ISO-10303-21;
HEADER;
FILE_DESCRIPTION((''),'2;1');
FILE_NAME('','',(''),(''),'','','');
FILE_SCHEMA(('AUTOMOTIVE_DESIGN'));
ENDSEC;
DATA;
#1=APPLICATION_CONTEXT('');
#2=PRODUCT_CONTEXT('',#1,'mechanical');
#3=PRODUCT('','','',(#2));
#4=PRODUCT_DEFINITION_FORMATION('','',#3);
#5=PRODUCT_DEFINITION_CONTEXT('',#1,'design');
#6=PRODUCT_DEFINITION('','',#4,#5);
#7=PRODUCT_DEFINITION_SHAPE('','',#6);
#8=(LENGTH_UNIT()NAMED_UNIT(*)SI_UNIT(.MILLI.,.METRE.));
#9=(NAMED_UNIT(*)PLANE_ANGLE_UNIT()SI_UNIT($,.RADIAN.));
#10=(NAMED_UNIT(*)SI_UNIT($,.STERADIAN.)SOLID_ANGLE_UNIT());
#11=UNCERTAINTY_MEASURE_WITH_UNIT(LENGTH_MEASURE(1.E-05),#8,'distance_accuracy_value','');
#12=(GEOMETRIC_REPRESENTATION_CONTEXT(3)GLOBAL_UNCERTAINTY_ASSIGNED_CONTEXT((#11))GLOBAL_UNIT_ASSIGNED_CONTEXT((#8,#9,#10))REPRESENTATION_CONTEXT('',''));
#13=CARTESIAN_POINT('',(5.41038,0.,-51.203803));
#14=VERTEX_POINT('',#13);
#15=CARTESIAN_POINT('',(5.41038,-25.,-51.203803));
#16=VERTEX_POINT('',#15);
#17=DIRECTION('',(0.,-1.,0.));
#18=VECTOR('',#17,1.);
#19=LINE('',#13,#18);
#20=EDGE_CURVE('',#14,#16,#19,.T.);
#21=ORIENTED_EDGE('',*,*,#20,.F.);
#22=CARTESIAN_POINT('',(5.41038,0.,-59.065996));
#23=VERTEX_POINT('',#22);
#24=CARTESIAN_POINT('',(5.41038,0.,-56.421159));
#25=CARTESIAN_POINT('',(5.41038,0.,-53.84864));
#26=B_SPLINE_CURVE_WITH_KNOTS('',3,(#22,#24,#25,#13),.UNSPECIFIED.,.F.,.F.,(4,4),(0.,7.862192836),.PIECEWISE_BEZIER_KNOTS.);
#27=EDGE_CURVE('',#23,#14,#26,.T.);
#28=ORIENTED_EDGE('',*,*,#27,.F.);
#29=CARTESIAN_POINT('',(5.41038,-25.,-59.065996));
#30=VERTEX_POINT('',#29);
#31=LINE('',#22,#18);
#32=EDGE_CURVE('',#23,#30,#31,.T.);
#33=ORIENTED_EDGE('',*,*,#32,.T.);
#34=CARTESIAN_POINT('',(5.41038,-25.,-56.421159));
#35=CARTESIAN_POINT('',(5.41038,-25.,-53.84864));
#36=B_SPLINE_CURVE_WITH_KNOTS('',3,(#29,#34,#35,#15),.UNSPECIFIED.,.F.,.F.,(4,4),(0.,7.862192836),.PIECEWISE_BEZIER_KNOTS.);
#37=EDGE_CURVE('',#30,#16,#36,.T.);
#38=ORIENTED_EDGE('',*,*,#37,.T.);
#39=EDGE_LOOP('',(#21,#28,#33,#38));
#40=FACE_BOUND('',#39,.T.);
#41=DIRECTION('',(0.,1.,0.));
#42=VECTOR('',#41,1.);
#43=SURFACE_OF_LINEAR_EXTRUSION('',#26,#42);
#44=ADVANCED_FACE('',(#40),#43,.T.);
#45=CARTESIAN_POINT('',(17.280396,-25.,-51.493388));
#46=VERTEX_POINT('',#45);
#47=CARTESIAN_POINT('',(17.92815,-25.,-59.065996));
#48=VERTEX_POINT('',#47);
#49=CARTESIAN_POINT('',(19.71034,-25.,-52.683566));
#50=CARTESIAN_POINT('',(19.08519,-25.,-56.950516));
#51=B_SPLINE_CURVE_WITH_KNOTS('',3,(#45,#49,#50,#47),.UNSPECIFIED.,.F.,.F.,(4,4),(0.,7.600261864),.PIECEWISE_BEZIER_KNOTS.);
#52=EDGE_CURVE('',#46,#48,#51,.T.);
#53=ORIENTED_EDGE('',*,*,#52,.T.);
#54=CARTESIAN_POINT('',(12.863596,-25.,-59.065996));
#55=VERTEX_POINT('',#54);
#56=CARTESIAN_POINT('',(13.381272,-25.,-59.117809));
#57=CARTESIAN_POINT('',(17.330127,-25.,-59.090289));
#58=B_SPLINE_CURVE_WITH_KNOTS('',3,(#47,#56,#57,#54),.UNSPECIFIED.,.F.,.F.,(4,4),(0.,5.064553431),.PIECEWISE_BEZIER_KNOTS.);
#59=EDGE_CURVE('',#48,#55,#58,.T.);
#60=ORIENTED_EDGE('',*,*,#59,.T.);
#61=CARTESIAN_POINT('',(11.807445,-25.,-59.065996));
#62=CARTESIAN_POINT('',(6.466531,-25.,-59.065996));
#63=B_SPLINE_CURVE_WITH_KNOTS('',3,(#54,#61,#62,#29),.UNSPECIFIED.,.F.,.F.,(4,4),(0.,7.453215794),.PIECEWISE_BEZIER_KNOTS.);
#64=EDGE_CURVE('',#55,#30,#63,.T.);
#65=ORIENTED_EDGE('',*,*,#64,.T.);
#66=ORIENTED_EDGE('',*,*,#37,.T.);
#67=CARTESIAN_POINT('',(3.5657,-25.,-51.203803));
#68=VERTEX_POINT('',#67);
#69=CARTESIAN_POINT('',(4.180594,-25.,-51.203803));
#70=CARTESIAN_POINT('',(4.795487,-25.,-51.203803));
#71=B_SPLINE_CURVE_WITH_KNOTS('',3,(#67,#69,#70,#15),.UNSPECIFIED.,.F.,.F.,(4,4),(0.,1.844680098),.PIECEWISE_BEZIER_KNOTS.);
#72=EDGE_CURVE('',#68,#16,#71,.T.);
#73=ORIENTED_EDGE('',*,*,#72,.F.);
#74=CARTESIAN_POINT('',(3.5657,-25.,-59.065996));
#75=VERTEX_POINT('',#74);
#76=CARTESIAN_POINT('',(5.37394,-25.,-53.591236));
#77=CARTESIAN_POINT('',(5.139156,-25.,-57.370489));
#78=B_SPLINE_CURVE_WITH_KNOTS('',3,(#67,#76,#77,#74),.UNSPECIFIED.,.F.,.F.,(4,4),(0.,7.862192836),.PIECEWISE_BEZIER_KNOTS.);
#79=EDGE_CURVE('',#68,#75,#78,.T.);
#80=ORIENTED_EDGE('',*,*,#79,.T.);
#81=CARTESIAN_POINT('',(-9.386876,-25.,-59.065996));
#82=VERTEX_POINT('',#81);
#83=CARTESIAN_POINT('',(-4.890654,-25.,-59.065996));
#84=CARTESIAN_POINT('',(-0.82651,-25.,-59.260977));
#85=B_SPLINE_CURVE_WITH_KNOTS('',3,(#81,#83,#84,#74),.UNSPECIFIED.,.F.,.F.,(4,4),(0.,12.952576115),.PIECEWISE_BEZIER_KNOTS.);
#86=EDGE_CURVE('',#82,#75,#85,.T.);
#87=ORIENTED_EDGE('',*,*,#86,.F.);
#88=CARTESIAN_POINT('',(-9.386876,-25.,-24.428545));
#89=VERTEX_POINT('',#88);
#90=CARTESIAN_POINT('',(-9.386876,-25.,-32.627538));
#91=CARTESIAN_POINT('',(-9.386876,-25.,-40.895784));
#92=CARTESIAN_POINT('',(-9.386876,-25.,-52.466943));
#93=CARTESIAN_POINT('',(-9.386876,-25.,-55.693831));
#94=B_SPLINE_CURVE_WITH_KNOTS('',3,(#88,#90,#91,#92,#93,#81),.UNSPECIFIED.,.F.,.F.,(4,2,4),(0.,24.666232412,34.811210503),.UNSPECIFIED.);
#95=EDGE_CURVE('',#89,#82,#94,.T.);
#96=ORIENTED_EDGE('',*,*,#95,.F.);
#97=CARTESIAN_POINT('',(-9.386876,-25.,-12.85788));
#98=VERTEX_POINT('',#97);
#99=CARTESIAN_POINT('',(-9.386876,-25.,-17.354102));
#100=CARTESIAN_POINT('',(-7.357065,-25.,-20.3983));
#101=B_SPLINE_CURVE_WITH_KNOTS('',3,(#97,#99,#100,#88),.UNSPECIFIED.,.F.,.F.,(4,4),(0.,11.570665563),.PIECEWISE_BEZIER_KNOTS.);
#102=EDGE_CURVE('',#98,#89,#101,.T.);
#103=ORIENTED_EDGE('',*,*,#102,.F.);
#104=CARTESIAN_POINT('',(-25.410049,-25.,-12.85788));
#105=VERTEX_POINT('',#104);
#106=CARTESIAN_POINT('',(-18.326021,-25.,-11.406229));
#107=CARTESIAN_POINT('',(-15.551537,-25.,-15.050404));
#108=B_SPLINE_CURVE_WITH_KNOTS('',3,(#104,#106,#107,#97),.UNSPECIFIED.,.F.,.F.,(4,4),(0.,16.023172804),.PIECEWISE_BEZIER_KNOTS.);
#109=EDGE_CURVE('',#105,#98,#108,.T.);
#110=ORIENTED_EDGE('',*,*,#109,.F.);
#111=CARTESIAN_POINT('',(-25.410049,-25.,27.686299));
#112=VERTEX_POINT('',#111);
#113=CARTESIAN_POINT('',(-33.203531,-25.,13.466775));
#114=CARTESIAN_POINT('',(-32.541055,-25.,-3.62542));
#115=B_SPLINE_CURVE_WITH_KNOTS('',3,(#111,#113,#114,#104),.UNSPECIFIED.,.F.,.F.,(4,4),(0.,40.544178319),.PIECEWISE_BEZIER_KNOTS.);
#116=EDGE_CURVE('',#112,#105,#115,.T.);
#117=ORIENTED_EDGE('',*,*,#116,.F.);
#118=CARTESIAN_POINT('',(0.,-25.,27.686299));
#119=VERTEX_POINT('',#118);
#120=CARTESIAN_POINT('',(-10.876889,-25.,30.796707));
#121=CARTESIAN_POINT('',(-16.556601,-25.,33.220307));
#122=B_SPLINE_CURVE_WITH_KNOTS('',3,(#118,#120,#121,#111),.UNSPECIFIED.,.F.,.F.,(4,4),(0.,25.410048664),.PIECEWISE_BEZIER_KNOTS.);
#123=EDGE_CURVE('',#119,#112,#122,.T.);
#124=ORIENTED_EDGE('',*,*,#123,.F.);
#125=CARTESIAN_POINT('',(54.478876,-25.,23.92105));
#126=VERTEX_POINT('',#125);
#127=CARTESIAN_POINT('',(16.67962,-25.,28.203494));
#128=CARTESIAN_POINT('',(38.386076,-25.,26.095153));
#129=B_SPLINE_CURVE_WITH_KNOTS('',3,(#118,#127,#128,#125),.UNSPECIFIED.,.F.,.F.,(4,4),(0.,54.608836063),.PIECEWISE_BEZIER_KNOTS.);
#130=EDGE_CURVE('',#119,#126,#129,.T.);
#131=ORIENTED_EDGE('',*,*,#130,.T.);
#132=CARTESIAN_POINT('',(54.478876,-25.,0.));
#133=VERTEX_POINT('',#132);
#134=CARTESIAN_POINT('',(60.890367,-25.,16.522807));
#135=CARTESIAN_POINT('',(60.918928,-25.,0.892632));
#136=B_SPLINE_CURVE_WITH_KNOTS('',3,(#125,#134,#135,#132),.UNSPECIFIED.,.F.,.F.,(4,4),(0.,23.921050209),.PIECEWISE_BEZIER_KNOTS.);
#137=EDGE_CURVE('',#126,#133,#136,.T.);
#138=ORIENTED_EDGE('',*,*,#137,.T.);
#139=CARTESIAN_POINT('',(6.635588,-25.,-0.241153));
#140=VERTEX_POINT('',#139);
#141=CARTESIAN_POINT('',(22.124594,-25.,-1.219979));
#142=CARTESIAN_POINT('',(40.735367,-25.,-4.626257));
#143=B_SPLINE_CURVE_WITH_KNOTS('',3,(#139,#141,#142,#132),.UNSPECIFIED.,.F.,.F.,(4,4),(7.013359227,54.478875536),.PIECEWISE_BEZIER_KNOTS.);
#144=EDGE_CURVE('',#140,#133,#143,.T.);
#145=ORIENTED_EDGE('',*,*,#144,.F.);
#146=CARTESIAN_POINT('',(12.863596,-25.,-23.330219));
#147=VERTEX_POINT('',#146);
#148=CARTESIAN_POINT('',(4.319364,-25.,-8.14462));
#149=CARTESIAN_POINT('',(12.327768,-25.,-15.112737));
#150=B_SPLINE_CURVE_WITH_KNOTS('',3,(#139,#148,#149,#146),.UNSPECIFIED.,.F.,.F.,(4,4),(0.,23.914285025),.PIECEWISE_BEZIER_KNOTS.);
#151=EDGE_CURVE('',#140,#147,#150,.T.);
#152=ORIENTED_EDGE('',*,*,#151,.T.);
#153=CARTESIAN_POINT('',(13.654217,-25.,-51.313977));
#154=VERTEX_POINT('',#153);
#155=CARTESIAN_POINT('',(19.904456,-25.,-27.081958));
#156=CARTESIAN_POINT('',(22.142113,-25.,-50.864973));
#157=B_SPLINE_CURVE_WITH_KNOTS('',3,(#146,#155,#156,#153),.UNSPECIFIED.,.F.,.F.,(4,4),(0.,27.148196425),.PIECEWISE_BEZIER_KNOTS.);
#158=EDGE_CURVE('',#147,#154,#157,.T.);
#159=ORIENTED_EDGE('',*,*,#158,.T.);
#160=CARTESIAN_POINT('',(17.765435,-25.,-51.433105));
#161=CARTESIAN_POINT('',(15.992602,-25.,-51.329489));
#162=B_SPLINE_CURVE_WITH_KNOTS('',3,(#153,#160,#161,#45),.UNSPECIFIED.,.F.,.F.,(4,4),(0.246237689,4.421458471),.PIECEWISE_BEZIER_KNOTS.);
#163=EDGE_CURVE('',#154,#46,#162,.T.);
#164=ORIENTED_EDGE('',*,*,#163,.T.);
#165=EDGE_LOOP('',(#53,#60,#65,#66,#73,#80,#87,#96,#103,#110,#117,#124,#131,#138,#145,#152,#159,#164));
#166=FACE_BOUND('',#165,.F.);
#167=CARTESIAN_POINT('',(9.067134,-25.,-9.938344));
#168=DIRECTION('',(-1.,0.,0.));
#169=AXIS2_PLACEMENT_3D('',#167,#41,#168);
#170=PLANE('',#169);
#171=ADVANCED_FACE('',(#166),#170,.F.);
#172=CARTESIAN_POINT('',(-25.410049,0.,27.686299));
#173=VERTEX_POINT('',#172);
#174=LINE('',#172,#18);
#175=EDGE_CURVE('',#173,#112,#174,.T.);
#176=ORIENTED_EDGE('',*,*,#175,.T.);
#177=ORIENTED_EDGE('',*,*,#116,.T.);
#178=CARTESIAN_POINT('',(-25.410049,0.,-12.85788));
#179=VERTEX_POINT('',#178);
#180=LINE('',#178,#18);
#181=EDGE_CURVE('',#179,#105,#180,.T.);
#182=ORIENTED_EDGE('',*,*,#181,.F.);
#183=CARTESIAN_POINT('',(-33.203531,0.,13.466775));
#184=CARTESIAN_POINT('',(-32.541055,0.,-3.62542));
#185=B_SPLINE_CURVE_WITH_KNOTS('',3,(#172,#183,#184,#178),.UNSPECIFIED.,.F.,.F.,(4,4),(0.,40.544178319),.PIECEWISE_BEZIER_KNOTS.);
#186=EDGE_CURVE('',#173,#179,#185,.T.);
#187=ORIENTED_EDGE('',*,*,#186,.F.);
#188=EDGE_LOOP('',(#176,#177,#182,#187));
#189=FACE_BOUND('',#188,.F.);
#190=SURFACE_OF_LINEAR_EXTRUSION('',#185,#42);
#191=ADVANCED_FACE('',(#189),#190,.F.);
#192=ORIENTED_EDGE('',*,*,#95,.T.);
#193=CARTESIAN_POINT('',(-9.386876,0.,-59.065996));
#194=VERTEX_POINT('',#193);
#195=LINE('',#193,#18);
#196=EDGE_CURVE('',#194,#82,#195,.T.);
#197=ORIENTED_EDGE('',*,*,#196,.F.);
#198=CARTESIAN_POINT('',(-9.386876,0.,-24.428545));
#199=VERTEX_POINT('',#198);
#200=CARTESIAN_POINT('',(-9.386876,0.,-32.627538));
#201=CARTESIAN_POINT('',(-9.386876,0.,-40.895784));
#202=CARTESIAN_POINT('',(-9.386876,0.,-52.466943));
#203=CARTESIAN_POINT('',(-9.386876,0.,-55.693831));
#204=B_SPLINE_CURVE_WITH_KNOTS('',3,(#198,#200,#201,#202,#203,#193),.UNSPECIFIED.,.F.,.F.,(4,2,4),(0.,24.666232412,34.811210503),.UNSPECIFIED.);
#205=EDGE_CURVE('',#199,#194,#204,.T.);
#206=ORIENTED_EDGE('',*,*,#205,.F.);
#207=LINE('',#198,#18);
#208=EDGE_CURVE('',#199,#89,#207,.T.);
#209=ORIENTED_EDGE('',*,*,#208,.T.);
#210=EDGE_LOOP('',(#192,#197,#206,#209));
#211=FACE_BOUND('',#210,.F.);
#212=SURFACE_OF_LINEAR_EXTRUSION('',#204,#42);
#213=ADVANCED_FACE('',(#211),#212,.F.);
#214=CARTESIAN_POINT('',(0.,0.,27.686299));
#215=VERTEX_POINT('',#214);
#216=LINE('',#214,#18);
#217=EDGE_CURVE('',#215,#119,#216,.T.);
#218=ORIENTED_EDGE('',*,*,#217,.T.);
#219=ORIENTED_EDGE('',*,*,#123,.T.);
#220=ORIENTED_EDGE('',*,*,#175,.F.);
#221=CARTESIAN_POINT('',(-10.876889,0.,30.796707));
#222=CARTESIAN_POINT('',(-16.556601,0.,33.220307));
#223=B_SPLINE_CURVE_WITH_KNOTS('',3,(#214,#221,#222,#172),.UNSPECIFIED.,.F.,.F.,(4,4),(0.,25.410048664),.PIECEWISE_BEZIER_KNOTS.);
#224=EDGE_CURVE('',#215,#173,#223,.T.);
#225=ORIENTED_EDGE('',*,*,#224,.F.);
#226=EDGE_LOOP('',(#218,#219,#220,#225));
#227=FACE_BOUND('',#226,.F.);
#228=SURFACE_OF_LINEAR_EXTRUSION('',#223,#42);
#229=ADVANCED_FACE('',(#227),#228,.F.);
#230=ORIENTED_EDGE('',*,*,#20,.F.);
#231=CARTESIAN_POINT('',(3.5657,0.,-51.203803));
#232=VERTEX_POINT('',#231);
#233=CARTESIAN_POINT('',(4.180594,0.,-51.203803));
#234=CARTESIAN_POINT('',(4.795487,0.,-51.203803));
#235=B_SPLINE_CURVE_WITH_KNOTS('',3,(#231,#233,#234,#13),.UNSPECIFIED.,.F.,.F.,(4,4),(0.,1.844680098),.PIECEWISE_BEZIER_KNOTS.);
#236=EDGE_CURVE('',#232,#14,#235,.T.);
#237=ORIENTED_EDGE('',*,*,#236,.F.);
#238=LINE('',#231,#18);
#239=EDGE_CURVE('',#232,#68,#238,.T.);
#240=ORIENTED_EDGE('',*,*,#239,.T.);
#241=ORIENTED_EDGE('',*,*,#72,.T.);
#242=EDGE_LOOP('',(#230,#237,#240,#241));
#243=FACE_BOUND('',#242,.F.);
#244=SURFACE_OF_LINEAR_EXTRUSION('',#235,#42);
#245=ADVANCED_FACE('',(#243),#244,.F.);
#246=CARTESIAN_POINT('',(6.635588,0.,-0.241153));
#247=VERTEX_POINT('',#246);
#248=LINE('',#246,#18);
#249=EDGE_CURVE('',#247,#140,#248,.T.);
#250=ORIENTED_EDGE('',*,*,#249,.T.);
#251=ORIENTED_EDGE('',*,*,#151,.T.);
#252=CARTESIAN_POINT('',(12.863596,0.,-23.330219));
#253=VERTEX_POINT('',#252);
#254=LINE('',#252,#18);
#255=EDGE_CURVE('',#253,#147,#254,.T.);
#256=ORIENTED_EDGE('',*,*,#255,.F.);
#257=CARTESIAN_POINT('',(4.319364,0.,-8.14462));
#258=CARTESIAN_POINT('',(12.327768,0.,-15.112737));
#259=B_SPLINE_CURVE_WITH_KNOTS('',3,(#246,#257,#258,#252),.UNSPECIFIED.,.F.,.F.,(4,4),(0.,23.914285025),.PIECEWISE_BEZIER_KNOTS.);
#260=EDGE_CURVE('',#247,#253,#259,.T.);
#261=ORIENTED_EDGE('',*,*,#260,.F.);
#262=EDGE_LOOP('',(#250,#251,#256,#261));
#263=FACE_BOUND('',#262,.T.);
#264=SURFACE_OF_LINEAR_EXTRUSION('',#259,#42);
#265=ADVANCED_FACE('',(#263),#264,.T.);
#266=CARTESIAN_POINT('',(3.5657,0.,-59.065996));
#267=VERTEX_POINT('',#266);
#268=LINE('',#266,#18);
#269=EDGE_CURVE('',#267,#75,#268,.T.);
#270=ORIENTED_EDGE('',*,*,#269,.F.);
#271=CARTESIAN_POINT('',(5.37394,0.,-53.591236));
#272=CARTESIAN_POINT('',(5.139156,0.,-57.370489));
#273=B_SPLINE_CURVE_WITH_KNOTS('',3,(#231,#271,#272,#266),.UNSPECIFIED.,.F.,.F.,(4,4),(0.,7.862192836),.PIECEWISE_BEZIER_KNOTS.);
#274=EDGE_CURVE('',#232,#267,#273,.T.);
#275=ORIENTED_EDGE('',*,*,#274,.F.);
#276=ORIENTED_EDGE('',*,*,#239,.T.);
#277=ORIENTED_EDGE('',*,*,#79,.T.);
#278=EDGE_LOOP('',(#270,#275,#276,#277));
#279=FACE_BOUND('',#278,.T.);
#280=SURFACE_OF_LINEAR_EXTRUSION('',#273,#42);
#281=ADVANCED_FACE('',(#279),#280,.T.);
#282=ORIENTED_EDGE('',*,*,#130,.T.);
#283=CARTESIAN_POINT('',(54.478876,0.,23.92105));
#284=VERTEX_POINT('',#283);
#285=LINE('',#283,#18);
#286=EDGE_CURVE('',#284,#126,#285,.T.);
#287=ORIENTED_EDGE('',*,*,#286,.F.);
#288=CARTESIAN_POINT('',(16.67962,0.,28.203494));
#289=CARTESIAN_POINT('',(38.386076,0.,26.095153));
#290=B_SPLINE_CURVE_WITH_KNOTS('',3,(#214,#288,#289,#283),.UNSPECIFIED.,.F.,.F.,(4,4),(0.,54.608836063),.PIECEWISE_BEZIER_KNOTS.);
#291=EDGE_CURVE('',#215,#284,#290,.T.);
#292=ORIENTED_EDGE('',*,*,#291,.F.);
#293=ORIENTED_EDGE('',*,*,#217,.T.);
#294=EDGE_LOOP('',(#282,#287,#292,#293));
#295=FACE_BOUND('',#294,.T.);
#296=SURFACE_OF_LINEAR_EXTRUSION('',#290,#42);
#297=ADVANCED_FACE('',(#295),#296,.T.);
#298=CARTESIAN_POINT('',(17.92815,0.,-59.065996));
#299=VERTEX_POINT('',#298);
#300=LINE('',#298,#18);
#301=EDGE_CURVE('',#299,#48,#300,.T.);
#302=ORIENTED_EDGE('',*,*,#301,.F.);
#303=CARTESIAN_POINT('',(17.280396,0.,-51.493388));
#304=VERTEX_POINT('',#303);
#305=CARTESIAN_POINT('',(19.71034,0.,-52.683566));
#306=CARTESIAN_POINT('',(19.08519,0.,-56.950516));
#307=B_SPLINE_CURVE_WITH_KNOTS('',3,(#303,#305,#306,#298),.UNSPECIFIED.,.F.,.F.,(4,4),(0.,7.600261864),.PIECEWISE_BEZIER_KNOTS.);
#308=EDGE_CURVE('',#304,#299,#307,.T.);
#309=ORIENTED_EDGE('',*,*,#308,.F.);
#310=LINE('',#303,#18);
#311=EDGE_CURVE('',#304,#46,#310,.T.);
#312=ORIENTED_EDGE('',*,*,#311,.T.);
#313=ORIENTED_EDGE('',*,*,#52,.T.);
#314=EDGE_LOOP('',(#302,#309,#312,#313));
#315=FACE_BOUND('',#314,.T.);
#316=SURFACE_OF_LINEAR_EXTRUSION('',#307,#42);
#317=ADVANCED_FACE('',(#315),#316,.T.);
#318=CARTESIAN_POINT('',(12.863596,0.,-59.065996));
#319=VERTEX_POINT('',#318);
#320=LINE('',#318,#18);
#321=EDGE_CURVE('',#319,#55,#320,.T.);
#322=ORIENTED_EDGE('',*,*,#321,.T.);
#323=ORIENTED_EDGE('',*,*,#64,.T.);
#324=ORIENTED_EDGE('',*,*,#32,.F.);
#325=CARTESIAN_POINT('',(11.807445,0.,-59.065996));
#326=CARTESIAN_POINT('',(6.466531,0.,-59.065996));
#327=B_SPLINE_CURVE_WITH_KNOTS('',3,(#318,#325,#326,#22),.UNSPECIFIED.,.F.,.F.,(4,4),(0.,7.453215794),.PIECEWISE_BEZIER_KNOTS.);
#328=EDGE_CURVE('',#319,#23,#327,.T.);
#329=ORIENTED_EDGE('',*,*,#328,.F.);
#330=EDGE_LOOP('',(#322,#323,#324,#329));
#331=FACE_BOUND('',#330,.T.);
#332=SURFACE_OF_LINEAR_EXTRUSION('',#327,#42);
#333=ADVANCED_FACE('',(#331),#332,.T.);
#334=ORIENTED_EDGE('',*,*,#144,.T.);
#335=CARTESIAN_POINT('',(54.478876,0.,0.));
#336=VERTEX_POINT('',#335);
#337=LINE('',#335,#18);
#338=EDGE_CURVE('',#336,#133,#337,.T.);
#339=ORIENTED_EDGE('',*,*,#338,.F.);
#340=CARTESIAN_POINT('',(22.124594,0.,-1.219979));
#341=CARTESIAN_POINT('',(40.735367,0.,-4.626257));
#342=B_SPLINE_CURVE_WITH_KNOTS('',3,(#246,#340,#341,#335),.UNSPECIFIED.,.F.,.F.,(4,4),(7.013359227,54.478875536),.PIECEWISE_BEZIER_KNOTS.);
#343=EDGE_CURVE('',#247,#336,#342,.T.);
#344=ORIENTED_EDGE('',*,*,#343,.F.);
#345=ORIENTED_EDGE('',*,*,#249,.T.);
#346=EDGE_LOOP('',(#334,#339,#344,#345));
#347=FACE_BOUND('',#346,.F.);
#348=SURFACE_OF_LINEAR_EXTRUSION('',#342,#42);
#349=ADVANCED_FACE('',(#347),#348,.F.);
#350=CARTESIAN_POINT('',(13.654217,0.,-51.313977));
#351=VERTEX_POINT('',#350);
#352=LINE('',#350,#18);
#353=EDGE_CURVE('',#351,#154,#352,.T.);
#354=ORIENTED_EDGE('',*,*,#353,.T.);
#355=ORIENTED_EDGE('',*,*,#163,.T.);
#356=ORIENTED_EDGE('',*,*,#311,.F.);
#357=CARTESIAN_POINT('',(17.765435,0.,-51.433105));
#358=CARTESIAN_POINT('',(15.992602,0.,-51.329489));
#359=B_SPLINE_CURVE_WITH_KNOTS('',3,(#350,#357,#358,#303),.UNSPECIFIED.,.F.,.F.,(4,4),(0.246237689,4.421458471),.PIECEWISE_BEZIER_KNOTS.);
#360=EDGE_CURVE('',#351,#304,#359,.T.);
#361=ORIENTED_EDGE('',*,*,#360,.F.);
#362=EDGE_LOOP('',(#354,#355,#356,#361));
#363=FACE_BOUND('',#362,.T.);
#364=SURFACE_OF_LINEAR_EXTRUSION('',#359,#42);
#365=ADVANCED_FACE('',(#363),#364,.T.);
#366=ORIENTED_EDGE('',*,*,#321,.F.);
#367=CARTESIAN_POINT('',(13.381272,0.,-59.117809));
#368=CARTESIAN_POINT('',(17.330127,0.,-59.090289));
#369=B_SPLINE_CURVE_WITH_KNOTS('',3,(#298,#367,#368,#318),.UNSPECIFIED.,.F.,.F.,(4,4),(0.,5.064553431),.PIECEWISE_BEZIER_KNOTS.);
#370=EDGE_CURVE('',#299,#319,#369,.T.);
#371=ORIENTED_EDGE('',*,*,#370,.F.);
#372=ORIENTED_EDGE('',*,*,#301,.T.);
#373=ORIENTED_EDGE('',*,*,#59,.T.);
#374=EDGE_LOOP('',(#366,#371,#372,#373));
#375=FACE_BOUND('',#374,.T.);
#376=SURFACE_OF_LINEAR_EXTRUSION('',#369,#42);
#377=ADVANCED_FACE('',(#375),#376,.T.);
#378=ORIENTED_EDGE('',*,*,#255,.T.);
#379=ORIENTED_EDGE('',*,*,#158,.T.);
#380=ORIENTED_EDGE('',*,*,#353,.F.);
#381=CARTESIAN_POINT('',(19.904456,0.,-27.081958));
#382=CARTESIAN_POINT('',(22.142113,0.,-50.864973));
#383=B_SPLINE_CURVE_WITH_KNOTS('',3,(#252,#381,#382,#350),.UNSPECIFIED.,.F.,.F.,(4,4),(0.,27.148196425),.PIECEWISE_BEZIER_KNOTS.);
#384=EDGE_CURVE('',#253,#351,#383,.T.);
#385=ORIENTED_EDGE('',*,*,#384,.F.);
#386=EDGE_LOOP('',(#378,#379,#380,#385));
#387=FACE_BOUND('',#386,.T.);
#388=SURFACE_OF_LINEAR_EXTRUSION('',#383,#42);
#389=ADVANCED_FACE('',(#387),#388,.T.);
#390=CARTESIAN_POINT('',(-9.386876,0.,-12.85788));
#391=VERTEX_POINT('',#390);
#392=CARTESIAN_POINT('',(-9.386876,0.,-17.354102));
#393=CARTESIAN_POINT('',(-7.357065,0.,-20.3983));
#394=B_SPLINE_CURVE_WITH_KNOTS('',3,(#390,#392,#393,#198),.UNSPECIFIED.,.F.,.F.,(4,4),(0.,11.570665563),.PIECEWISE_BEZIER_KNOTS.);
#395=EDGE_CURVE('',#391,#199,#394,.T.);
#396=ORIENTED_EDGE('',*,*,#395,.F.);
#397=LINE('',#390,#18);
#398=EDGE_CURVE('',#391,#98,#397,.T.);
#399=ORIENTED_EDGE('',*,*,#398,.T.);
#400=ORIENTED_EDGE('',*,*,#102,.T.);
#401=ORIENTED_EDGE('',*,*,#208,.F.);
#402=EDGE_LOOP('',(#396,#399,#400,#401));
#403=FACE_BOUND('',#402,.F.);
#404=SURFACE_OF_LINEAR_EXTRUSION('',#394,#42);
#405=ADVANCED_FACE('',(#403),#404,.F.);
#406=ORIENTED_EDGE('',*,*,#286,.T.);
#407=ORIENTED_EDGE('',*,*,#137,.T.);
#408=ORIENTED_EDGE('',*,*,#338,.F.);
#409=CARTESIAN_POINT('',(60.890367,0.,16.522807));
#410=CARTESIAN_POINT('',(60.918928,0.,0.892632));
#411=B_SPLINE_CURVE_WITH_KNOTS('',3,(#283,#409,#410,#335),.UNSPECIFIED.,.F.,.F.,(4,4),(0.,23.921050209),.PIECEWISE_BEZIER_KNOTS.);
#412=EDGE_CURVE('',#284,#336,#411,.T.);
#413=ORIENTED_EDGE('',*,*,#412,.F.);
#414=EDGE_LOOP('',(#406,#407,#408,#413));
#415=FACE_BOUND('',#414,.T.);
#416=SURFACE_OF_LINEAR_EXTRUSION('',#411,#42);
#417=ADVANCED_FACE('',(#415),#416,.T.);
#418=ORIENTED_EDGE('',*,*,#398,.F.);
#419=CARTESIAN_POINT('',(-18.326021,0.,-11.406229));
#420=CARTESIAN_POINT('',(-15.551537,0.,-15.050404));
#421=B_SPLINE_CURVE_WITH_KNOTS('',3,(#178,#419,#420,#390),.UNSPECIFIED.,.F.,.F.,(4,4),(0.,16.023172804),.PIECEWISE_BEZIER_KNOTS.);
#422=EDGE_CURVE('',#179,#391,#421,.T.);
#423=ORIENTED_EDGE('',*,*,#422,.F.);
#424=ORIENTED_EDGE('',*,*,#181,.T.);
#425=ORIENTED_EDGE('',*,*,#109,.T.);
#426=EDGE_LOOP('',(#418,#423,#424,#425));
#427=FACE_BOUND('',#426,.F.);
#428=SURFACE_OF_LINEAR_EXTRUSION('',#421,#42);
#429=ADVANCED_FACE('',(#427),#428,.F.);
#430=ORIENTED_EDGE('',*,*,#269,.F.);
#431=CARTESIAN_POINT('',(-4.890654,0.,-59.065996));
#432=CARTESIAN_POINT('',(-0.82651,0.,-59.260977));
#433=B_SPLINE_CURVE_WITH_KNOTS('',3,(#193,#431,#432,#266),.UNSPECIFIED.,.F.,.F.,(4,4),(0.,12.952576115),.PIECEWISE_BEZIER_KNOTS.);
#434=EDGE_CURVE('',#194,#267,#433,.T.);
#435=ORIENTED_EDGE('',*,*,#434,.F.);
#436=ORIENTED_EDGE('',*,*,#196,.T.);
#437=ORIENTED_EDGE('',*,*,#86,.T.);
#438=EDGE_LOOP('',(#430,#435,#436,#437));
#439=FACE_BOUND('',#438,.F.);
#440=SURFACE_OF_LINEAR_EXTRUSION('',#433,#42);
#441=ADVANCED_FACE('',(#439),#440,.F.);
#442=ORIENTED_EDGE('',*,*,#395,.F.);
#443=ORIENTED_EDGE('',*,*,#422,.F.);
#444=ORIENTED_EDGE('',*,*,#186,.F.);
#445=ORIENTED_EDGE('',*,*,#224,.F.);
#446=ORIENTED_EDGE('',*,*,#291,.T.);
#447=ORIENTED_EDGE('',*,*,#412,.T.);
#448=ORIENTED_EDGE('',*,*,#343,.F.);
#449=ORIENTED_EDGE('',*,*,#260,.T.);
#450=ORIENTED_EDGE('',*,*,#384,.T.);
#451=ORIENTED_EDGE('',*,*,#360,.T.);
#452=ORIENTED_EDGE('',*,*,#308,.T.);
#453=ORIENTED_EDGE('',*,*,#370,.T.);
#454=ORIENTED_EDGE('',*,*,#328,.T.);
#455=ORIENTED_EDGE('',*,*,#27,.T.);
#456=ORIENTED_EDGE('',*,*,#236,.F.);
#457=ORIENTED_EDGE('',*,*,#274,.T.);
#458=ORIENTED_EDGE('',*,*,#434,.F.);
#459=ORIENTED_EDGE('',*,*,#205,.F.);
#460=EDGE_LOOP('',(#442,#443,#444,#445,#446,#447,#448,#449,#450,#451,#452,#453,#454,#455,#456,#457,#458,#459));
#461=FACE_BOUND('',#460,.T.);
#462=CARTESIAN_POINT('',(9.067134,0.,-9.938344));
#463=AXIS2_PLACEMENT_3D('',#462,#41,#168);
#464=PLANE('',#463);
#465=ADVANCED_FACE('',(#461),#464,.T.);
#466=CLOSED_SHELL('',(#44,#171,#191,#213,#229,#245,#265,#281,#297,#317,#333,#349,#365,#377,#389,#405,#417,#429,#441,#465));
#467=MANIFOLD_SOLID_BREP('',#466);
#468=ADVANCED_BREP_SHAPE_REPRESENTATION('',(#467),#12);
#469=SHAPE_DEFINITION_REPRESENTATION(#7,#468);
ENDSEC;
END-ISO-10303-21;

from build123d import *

# Parameters (mm, degrees)
F1_DEPTH = 25
F2_DEPTH = 25


with BuildPart() as f1:
    # F0 (on Front) → F1 (new body)
    with BuildSketch(Plane.XZ):
        with BuildLine():
            add(Edge.make_bspline(
                [(0, 27.6862987394), (16.6796203151, 28.2034940451), (38.3860760438, 26.0951526086), (54.4788755361, 23.9210502088)],
                knots=[0, 0, 0, 0, 54.6088360632, 54.6088360632, 54.6088360632, 54.6088360632], degree=3))
            add(Edge.make_bspline(
                [(0, 27.6862987394), (-10.8768893406, 30.7967068715), (-16.5566008002, 33.2203069514), (-25.4100486636, 27.6862987394)],
                knots=[0, 0, 0, 0, 25.4100486636, 25.4100486636, 25.4100486636, 25.4100486636], degree=3))
            add(Edge.make_bspline(
                [(-25.4100486636, 27.6862987394), (-33.2035310566, 13.4667754173), (-32.5410552323, -3.6254199222), (-25.4100486636, -12.8578795793)],
                knots=[0, 0, 0, 0, 40.5441783186, 40.5441783186, 40.5441783186, 40.5441783186], degree=3))
            add(Edge.make_bspline(
                [(-25.4100486636, -12.8578795793), (-18.3260211883, -11.4062287705), (-15.5515372751, -15.0504039361), (-9.3868758597, -12.8578795793)],
                knots=[0, 0, 0, 0, 16.0231728039, 16.0231728039, 16.0231728039, 16.0231728039], degree=3))
            add(Edge.make_bspline(
                [(-9.3868758597, -12.8578795793), (-9.3868758597, -17.3541016308), (-7.3570651382, -20.3983004515), (-9.3868758597, -24.4285451423)],
                knots=[0, 0, 0, 0, 11.570665563, 11.570665563, 11.570665563, 11.570665563], degree=3))
            add(Edge.make_bspline(
                [(-9.3868758597, -24.4285451423), (-9.3868758597, -32.6275384228), (-9.3868758597, -40.8957842737), (-9.3868758597, -49.0947775543)],
                knots=[0, 0, 0, 0, 24.666232412, 24.666232412, 24.666232412, 24.666232412], degree=3))
            add(Edge.make_bspline(
                [(-9.3868758597, -49.0947775543), (-9.3868758597, -52.4669426183), (-9.3868758597, -55.6938308612), (-9.3868758597, -59.0659959252)],
                knots=[0, 0, 0, 0, 9.9712183709, 9.9712183709, 9.9712183709, 9.9712183709], degree=3))
            add(Edge.make_bspline(
                [(-9.3868758597, -59.0659959252), (-4.8906540411, -59.0659959252), (-0.8265095118, -59.2609767353), (3.5657002554, -59.0659959252)],
                knots=[0, 0, 0, 0, 12.9525761151, 12.9525761151, 12.9525761151, 12.9525761151], degree=3))
            add(Edge.make_bspline(
                [(3.5657002554, -51.2038030888), (5.3739403374, -53.5912364721), (5.1391562447, -57.3704887664), (3.5657002554, -59.0659959252)],
                knots=[0, 0, 0, 0, 7.8621928364, 7.8621928364, 7.8621928364, 7.8621928364], degree=3))
            add(Edge.make_bspline(
                [(3.5657002554, -51.2038030888), (4.1805936213, -51.2038030888), (4.7954869871, -51.2038030888), (5.410380353, -51.2038030888)],
                knots=[0, 0, 0, 0, 1.8446800976, 1.8446800976, 1.8446800976, 1.8446800976], degree=3))
            add(Edge.make_bspline(
                [(5.410380353, -59.0659959252), (5.410380353, -56.4211590226), (5.410380353, -53.8486399914), (5.410380353, -51.2038030888)],
                knots=[0, 0, 0, 0, 7.8621928364, 7.8621928364, 7.8621928364, 7.8621928364], degree=3))
            add(Edge.make_bspline(
                [(12.8635961467, -59.0659959252), (11.8074451477, -59.0659959252), (6.4665313519, -59.0659959252), (5.410380353, -59.0659959252)],
                knots=[0, 0, 0, 0, 7.4532157937, 7.4532157937, 7.4532157937, 7.4532157937], degree=3))
            add(Edge.make_bspline(
                [(17.928149578, -59.0659959252), (13.3812715451, -59.1178093189), (17.3301265652, -59.090289033), (12.8635961467, -59.0659959252)],
                knots=[0, 0, 0, 0, 5.0645534314, 5.0645534314, 5.0645534314, 5.0645534314], degree=3))
            add(Edge.make_bspline(
                [(17.2803960741, -51.4933876693), (19.7103396058, -52.6835657656), (19.08519026, -56.9505158861), (17.928149578, -59.0659959252)],
                knots=[0, 0, 0, 0, 7.6002618638, 7.6002618638, 7.6002618638, 7.6002618638], degree=3))
            add(Edge.make_bspline(
                [(13.654217176, -51.3139771687), (17.7654348468, -51.4331050273), (15.9926018867, -51.3294887656), (17.2803960741, -51.4933876693)],
                knots=[0.2462376888, 0.2462376888, 0.2462376888, 0.2462376888, 4.4214584712, 4.4214584712, 4.4214584712, 4.4214584712], degree=3))
            add(Edge.make_bspline(
                [(12.8635961467, -23.3302187194), (19.9044561336, -27.0819576453), (22.1421128676, -50.8649725158), (13.654217176, -51.3139771687)],
                knots=[0, 0, 0, 0, 27.1481964254, 27.1481964254, 27.1481964254, 27.1481964254], degree=3))
            add(Edge.make_bspline(
                [(6.6355882659, -0.2411532101), (4.3193641621, -8.1446198373), (12.3277681457, -15.1127369167), (12.8635961467, -23.3302187194)],
                knots=[0, 0, 0, 0, 23.914285025, 23.914285025, 23.914285025, 23.914285025], degree=3))
            add(Edge.make_bspline(
                [(6.6355882659, -0.2411532101), (22.1245938581, -1.219978708), (40.7353670915, -4.6262567835), (54.4788755361, 0)],
                knots=[7.0133592268, 7.0133592268, 7.0133592268, 7.0133592268, 54.4788755361, 54.4788755361, 54.4788755361, 54.4788755361], degree=3))
            add(Edge.make_bspline(
                [(54.4788755361, 23.9210502088), (60.8903667061, 16.5228074724), (60.9189283628, 0.8926317144), (54.4788755361, 0)],
                knots=[0, 0, 0, 0, 23.9210502088, 23.9210502088, 23.9210502088, 23.9210502088], degree=3))
        make_face()
        with BuildLine():
            add(Edge.make_bspline(
                [(12.8635961467, -51.2904753379), (13.1488253912, -51.2991510662), (13.4117541327, -51.3069514878), (13.654217176, -51.3139771687)],
                knots=[0, 0, 0, 0, 0.2462376888, 0.2462376888, 0.2462376888, 0.2462376888], degree=3))
            add(Edge.make_bspline(
                [(13.654217176, -51.3139771687), (13.4003261953, -51.3274078511), (13.1368386863, -51.3199607754), (12.8635961467, -51.2904753379)],
                knots=[27.1481964254, 27.1481964254, 27.1481964254, 27.1481964254, 27.9602566185, 27.9602566185, 27.9602566185, 27.9602566185], degree=3))
        make_face(mode=Mode.SUBTRACT)
        with BuildLine():
            add(Edge.make_bspline(
                [(13.654217176, -51.3139771687), (13.4003261953, -51.3274078511), (13.1368386863, -51.3199607754), (12.8635961467, -51.2904753379)],
                knots=[27.1481964254, 27.1481964254, 27.1481964254, 27.1481964254, 27.9602566185, 27.9602566185, 27.9602566185, 27.9602566185], degree=3))
            add(Edge.make_bspline(
                [(12.8635961467, -51.2904753379), (13.1488253912, -51.2991510662), (13.4117541327, -51.3069514878), (13.654217176, -51.3139771687)],
                knots=[0, 0, 0, 0, 0.2462376888, 0.2462376888, 0.2462376888, 0.2462376888], degree=3))
        make_face()
    extrude(amount=F1_DEPTH)

    # F0 (on Front) → F2 (join)
    with BuildSketch(Plane.XZ):
        with BuildLine():
            add(Edge.make_bspline(
                [(0, 27.6862987394), (16.6796203151, 28.2034940451), (38.3860760438, 26.0951526086), (54.4788755361, 23.9210502088)],
                knots=[0, 0, 0, 0, 54.6088360632, 54.6088360632, 54.6088360632, 54.6088360632], degree=3))
            add(Edge.make_bspline(
                [(0, 27.6862987394), (-10.8768893406, 30.7967068715), (-16.5566008002, 33.2203069514), (-25.4100486636, 27.6862987394)],
                knots=[0, 0, 0, 0, 25.4100486636, 25.4100486636, 25.4100486636, 25.4100486636], degree=3))
            add(Edge.make_bspline(
                [(-25.4100486636, 27.6862987394), (-33.2035310566, 13.4667754173), (-32.5410552323, -3.6254199222), (-25.4100486636, -12.8578795793)],
                knots=[0, 0, 0, 0, 40.5441783186, 40.5441783186, 40.5441783186, 40.5441783186], degree=3))
            add(Edge.make_bspline(
                [(-25.4100486636, -12.8578795793), (-18.3260211883, -11.4062287705), (-15.5515372751, -15.0504039361), (-9.3868758597, -12.8578795793)],
                knots=[0, 0, 0, 0, 16.0231728039, 16.0231728039, 16.0231728039, 16.0231728039], degree=3))
            add(Edge.make_bspline(
                [(-9.3868758597, -12.8578795793), (-9.3868758597, -17.3541016308), (-7.3570651382, -20.3983004515), (-9.3868758597, -24.4285451423)],
                knots=[0, 0, 0, 0, 11.570665563, 11.570665563, 11.570665563, 11.570665563], degree=3))
            add(Edge.make_bspline(
                [(-9.3868758597, -24.4285451423), (-9.3868758597, -32.6275384228), (-9.3868758597, -40.8957842737), (-9.3868758597, -49.0947775543)],
                knots=[0, 0, 0, 0, 24.666232412, 24.666232412, 24.666232412, 24.666232412], degree=3))
            add(Edge.make_bspline(
                [(-9.3868758597, -49.0947775543), (-9.3868758597, -52.4669426183), (-9.3868758597, -55.6938308612), (-9.3868758597, -59.0659959252)],
                knots=[0, 0, 0, 0, 9.9712183709, 9.9712183709, 9.9712183709, 9.9712183709], degree=3))
            add(Edge.make_bspline(
                [(-9.3868758597, -59.0659959252), (-4.8906540411, -59.0659959252), (-0.8265095118, -59.2609767353), (3.5657002554, -59.0659959252)],
                knots=[0, 0, 0, 0, 12.9525761151, 12.9525761151, 12.9525761151, 12.9525761151], degree=3))
            add(Edge.make_bspline(
                [(3.5657002554, -51.2038030888), (5.3739403374, -53.5912364721), (5.1391562447, -57.3704887664), (3.5657002554, -59.0659959252)],
                knots=[0, 0, 0, 0, 7.8621928364, 7.8621928364, 7.8621928364, 7.8621928364], degree=3))
            add(Edge.make_bspline(
                [(3.5657002554, -51.2038030888), (4.1805936213, -51.2038030888), (4.7954869871, -51.2038030888), (5.410380353, -51.2038030888)],
                knots=[0, 0, 0, 0, 1.8446800976, 1.8446800976, 1.8446800976, 1.8446800976], degree=3))
            add(Edge.make_bspline(
                [(5.410380353, -59.0659959252), (5.410380353, -56.4211590226), (5.410380353, -53.8486399914), (5.410380353, -51.2038030888)],
                knots=[0, 0, 0, 0, 7.8621928364, 7.8621928364, 7.8621928364, 7.8621928364], degree=3))
            add(Edge.make_bspline(
                [(12.8635961467, -59.0659959252), (11.8074451477, -59.0659959252), (6.4665313519, -59.0659959252), (5.410380353, -59.0659959252)],
                knots=[0, 0, 0, 0, 7.4532157937, 7.4532157937, 7.4532157937, 7.4532157937], degree=3))
            add(Edge.make_bspline(
                [(17.928149578, -59.0659959252), (13.3812715451, -59.1178093189), (17.3301265652, -59.090289033), (12.8635961467, -59.0659959252)],
                knots=[0, 0, 0, 0, 5.0645534314, 5.0645534314, 5.0645534314, 5.0645534314], degree=3))
            add(Edge.make_bspline(
                [(17.2803960741, -51.4933876693), (19.7103396058, -52.6835657656), (19.08519026, -56.9505158861), (17.928149578, -59.0659959252)],
                knots=[0, 0, 0, 0, 7.6002618638, 7.6002618638, 7.6002618638, 7.6002618638], degree=3))
            add(Edge.make_bspline(
                [(13.654217176, -51.3139771687), (17.7654348468, -51.4331050273), (15.9926018867, -51.3294887656), (17.2803960741, -51.4933876693)],
                knots=[0.2462376888, 0.2462376888, 0.2462376888, 0.2462376888, 4.4214584712, 4.4214584712, 4.4214584712, 4.4214584712], degree=3))
            add(Edge.make_bspline(
                [(12.8635961467, -23.3302187194), (19.9044561336, -27.0819576453), (22.1421128676, -50.8649725158), (13.654217176, -51.3139771687)],
                knots=[0, 0, 0, 0, 27.1481964254, 27.1481964254, 27.1481964254, 27.1481964254], degree=3))
            add(Edge.make_bspline(
                [(6.6355882659, -0.2411532101), (4.3193641621, -8.1446198373), (12.3277681457, -15.1127369167), (12.8635961467, -23.3302187194)],
                knots=[0, 0, 0, 0, 23.914285025, 23.914285025, 23.914285025, 23.914285025], degree=3))
            add(Edge.make_bspline(
                [(6.6355882659, -0.2411532101), (22.1245938581, -1.219978708), (40.7353670915, -4.6262567835), (54.4788755361, 0)],
                knots=[7.0133592268, 7.0133592268, 7.0133592268, 7.0133592268, 54.4788755361, 54.4788755361, 54.4788755361, 54.4788755361], degree=3))
            add(Edge.make_bspline(
                [(54.4788755361, 23.9210502088), (60.8903667061, 16.5228074724), (60.9189283628, 0.8926317144), (54.4788755361, 0)],
                knots=[0, 0, 0, 0, 23.9210502088, 23.9210502088, 23.9210502088, 23.9210502088], degree=3))
        make_face()
        with BuildLine():
            add(Edge.make_bspline(
                [(12.8635961467, -51.2904753379), (13.1488253912, -51.2991510662), (13.4117541327, -51.3069514878), (13.654217176, -51.3139771687)],
                knots=[0, 0, 0, 0, 0.2462376888, 0.2462376888, 0.2462376888, 0.2462376888], degree=3))
            add(Edge.make_bspline(
                [(13.654217176, -51.3139771687), (13.4003261953, -51.3274078511), (13.1368386863, -51.3199607754), (12.8635961467, -51.2904753379)],
                knots=[27.1481964254, 27.1481964254, 27.1481964254, 27.1481964254, 27.9602566185, 27.9602566185, 27.9602566185, 27.9602566185], degree=3))
        make_face(mode=Mode.SUBTRACT)
        with BuildLine():
            add(Edge.make_bspline(
                [(13.654217176, -51.3139771687), (13.4003261953, -51.3274078511), (13.1368386863, -51.3199607754), (12.8635961467, -51.2904753379)],
                knots=[27.1481964254, 27.1481964254, 27.1481964254, 27.1481964254, 27.9602566185, 27.9602566185, 27.9602566185, 27.9602566185], degree=3))
            add(Edge.make_bspline(
                [(12.8635961467, -51.2904753379), (13.1488253912, -51.2991510662), (13.4117541327, -51.3069514878), (13.654217176, -51.3139771687)],
                knots=[0, 0, 0, 0, 0.2462376888, 0.2462376888, 0.2462376888, 0.2462376888], degree=3))
        make_face()
    extrude(amount=F2_DEPTH)


solid = f1.part
